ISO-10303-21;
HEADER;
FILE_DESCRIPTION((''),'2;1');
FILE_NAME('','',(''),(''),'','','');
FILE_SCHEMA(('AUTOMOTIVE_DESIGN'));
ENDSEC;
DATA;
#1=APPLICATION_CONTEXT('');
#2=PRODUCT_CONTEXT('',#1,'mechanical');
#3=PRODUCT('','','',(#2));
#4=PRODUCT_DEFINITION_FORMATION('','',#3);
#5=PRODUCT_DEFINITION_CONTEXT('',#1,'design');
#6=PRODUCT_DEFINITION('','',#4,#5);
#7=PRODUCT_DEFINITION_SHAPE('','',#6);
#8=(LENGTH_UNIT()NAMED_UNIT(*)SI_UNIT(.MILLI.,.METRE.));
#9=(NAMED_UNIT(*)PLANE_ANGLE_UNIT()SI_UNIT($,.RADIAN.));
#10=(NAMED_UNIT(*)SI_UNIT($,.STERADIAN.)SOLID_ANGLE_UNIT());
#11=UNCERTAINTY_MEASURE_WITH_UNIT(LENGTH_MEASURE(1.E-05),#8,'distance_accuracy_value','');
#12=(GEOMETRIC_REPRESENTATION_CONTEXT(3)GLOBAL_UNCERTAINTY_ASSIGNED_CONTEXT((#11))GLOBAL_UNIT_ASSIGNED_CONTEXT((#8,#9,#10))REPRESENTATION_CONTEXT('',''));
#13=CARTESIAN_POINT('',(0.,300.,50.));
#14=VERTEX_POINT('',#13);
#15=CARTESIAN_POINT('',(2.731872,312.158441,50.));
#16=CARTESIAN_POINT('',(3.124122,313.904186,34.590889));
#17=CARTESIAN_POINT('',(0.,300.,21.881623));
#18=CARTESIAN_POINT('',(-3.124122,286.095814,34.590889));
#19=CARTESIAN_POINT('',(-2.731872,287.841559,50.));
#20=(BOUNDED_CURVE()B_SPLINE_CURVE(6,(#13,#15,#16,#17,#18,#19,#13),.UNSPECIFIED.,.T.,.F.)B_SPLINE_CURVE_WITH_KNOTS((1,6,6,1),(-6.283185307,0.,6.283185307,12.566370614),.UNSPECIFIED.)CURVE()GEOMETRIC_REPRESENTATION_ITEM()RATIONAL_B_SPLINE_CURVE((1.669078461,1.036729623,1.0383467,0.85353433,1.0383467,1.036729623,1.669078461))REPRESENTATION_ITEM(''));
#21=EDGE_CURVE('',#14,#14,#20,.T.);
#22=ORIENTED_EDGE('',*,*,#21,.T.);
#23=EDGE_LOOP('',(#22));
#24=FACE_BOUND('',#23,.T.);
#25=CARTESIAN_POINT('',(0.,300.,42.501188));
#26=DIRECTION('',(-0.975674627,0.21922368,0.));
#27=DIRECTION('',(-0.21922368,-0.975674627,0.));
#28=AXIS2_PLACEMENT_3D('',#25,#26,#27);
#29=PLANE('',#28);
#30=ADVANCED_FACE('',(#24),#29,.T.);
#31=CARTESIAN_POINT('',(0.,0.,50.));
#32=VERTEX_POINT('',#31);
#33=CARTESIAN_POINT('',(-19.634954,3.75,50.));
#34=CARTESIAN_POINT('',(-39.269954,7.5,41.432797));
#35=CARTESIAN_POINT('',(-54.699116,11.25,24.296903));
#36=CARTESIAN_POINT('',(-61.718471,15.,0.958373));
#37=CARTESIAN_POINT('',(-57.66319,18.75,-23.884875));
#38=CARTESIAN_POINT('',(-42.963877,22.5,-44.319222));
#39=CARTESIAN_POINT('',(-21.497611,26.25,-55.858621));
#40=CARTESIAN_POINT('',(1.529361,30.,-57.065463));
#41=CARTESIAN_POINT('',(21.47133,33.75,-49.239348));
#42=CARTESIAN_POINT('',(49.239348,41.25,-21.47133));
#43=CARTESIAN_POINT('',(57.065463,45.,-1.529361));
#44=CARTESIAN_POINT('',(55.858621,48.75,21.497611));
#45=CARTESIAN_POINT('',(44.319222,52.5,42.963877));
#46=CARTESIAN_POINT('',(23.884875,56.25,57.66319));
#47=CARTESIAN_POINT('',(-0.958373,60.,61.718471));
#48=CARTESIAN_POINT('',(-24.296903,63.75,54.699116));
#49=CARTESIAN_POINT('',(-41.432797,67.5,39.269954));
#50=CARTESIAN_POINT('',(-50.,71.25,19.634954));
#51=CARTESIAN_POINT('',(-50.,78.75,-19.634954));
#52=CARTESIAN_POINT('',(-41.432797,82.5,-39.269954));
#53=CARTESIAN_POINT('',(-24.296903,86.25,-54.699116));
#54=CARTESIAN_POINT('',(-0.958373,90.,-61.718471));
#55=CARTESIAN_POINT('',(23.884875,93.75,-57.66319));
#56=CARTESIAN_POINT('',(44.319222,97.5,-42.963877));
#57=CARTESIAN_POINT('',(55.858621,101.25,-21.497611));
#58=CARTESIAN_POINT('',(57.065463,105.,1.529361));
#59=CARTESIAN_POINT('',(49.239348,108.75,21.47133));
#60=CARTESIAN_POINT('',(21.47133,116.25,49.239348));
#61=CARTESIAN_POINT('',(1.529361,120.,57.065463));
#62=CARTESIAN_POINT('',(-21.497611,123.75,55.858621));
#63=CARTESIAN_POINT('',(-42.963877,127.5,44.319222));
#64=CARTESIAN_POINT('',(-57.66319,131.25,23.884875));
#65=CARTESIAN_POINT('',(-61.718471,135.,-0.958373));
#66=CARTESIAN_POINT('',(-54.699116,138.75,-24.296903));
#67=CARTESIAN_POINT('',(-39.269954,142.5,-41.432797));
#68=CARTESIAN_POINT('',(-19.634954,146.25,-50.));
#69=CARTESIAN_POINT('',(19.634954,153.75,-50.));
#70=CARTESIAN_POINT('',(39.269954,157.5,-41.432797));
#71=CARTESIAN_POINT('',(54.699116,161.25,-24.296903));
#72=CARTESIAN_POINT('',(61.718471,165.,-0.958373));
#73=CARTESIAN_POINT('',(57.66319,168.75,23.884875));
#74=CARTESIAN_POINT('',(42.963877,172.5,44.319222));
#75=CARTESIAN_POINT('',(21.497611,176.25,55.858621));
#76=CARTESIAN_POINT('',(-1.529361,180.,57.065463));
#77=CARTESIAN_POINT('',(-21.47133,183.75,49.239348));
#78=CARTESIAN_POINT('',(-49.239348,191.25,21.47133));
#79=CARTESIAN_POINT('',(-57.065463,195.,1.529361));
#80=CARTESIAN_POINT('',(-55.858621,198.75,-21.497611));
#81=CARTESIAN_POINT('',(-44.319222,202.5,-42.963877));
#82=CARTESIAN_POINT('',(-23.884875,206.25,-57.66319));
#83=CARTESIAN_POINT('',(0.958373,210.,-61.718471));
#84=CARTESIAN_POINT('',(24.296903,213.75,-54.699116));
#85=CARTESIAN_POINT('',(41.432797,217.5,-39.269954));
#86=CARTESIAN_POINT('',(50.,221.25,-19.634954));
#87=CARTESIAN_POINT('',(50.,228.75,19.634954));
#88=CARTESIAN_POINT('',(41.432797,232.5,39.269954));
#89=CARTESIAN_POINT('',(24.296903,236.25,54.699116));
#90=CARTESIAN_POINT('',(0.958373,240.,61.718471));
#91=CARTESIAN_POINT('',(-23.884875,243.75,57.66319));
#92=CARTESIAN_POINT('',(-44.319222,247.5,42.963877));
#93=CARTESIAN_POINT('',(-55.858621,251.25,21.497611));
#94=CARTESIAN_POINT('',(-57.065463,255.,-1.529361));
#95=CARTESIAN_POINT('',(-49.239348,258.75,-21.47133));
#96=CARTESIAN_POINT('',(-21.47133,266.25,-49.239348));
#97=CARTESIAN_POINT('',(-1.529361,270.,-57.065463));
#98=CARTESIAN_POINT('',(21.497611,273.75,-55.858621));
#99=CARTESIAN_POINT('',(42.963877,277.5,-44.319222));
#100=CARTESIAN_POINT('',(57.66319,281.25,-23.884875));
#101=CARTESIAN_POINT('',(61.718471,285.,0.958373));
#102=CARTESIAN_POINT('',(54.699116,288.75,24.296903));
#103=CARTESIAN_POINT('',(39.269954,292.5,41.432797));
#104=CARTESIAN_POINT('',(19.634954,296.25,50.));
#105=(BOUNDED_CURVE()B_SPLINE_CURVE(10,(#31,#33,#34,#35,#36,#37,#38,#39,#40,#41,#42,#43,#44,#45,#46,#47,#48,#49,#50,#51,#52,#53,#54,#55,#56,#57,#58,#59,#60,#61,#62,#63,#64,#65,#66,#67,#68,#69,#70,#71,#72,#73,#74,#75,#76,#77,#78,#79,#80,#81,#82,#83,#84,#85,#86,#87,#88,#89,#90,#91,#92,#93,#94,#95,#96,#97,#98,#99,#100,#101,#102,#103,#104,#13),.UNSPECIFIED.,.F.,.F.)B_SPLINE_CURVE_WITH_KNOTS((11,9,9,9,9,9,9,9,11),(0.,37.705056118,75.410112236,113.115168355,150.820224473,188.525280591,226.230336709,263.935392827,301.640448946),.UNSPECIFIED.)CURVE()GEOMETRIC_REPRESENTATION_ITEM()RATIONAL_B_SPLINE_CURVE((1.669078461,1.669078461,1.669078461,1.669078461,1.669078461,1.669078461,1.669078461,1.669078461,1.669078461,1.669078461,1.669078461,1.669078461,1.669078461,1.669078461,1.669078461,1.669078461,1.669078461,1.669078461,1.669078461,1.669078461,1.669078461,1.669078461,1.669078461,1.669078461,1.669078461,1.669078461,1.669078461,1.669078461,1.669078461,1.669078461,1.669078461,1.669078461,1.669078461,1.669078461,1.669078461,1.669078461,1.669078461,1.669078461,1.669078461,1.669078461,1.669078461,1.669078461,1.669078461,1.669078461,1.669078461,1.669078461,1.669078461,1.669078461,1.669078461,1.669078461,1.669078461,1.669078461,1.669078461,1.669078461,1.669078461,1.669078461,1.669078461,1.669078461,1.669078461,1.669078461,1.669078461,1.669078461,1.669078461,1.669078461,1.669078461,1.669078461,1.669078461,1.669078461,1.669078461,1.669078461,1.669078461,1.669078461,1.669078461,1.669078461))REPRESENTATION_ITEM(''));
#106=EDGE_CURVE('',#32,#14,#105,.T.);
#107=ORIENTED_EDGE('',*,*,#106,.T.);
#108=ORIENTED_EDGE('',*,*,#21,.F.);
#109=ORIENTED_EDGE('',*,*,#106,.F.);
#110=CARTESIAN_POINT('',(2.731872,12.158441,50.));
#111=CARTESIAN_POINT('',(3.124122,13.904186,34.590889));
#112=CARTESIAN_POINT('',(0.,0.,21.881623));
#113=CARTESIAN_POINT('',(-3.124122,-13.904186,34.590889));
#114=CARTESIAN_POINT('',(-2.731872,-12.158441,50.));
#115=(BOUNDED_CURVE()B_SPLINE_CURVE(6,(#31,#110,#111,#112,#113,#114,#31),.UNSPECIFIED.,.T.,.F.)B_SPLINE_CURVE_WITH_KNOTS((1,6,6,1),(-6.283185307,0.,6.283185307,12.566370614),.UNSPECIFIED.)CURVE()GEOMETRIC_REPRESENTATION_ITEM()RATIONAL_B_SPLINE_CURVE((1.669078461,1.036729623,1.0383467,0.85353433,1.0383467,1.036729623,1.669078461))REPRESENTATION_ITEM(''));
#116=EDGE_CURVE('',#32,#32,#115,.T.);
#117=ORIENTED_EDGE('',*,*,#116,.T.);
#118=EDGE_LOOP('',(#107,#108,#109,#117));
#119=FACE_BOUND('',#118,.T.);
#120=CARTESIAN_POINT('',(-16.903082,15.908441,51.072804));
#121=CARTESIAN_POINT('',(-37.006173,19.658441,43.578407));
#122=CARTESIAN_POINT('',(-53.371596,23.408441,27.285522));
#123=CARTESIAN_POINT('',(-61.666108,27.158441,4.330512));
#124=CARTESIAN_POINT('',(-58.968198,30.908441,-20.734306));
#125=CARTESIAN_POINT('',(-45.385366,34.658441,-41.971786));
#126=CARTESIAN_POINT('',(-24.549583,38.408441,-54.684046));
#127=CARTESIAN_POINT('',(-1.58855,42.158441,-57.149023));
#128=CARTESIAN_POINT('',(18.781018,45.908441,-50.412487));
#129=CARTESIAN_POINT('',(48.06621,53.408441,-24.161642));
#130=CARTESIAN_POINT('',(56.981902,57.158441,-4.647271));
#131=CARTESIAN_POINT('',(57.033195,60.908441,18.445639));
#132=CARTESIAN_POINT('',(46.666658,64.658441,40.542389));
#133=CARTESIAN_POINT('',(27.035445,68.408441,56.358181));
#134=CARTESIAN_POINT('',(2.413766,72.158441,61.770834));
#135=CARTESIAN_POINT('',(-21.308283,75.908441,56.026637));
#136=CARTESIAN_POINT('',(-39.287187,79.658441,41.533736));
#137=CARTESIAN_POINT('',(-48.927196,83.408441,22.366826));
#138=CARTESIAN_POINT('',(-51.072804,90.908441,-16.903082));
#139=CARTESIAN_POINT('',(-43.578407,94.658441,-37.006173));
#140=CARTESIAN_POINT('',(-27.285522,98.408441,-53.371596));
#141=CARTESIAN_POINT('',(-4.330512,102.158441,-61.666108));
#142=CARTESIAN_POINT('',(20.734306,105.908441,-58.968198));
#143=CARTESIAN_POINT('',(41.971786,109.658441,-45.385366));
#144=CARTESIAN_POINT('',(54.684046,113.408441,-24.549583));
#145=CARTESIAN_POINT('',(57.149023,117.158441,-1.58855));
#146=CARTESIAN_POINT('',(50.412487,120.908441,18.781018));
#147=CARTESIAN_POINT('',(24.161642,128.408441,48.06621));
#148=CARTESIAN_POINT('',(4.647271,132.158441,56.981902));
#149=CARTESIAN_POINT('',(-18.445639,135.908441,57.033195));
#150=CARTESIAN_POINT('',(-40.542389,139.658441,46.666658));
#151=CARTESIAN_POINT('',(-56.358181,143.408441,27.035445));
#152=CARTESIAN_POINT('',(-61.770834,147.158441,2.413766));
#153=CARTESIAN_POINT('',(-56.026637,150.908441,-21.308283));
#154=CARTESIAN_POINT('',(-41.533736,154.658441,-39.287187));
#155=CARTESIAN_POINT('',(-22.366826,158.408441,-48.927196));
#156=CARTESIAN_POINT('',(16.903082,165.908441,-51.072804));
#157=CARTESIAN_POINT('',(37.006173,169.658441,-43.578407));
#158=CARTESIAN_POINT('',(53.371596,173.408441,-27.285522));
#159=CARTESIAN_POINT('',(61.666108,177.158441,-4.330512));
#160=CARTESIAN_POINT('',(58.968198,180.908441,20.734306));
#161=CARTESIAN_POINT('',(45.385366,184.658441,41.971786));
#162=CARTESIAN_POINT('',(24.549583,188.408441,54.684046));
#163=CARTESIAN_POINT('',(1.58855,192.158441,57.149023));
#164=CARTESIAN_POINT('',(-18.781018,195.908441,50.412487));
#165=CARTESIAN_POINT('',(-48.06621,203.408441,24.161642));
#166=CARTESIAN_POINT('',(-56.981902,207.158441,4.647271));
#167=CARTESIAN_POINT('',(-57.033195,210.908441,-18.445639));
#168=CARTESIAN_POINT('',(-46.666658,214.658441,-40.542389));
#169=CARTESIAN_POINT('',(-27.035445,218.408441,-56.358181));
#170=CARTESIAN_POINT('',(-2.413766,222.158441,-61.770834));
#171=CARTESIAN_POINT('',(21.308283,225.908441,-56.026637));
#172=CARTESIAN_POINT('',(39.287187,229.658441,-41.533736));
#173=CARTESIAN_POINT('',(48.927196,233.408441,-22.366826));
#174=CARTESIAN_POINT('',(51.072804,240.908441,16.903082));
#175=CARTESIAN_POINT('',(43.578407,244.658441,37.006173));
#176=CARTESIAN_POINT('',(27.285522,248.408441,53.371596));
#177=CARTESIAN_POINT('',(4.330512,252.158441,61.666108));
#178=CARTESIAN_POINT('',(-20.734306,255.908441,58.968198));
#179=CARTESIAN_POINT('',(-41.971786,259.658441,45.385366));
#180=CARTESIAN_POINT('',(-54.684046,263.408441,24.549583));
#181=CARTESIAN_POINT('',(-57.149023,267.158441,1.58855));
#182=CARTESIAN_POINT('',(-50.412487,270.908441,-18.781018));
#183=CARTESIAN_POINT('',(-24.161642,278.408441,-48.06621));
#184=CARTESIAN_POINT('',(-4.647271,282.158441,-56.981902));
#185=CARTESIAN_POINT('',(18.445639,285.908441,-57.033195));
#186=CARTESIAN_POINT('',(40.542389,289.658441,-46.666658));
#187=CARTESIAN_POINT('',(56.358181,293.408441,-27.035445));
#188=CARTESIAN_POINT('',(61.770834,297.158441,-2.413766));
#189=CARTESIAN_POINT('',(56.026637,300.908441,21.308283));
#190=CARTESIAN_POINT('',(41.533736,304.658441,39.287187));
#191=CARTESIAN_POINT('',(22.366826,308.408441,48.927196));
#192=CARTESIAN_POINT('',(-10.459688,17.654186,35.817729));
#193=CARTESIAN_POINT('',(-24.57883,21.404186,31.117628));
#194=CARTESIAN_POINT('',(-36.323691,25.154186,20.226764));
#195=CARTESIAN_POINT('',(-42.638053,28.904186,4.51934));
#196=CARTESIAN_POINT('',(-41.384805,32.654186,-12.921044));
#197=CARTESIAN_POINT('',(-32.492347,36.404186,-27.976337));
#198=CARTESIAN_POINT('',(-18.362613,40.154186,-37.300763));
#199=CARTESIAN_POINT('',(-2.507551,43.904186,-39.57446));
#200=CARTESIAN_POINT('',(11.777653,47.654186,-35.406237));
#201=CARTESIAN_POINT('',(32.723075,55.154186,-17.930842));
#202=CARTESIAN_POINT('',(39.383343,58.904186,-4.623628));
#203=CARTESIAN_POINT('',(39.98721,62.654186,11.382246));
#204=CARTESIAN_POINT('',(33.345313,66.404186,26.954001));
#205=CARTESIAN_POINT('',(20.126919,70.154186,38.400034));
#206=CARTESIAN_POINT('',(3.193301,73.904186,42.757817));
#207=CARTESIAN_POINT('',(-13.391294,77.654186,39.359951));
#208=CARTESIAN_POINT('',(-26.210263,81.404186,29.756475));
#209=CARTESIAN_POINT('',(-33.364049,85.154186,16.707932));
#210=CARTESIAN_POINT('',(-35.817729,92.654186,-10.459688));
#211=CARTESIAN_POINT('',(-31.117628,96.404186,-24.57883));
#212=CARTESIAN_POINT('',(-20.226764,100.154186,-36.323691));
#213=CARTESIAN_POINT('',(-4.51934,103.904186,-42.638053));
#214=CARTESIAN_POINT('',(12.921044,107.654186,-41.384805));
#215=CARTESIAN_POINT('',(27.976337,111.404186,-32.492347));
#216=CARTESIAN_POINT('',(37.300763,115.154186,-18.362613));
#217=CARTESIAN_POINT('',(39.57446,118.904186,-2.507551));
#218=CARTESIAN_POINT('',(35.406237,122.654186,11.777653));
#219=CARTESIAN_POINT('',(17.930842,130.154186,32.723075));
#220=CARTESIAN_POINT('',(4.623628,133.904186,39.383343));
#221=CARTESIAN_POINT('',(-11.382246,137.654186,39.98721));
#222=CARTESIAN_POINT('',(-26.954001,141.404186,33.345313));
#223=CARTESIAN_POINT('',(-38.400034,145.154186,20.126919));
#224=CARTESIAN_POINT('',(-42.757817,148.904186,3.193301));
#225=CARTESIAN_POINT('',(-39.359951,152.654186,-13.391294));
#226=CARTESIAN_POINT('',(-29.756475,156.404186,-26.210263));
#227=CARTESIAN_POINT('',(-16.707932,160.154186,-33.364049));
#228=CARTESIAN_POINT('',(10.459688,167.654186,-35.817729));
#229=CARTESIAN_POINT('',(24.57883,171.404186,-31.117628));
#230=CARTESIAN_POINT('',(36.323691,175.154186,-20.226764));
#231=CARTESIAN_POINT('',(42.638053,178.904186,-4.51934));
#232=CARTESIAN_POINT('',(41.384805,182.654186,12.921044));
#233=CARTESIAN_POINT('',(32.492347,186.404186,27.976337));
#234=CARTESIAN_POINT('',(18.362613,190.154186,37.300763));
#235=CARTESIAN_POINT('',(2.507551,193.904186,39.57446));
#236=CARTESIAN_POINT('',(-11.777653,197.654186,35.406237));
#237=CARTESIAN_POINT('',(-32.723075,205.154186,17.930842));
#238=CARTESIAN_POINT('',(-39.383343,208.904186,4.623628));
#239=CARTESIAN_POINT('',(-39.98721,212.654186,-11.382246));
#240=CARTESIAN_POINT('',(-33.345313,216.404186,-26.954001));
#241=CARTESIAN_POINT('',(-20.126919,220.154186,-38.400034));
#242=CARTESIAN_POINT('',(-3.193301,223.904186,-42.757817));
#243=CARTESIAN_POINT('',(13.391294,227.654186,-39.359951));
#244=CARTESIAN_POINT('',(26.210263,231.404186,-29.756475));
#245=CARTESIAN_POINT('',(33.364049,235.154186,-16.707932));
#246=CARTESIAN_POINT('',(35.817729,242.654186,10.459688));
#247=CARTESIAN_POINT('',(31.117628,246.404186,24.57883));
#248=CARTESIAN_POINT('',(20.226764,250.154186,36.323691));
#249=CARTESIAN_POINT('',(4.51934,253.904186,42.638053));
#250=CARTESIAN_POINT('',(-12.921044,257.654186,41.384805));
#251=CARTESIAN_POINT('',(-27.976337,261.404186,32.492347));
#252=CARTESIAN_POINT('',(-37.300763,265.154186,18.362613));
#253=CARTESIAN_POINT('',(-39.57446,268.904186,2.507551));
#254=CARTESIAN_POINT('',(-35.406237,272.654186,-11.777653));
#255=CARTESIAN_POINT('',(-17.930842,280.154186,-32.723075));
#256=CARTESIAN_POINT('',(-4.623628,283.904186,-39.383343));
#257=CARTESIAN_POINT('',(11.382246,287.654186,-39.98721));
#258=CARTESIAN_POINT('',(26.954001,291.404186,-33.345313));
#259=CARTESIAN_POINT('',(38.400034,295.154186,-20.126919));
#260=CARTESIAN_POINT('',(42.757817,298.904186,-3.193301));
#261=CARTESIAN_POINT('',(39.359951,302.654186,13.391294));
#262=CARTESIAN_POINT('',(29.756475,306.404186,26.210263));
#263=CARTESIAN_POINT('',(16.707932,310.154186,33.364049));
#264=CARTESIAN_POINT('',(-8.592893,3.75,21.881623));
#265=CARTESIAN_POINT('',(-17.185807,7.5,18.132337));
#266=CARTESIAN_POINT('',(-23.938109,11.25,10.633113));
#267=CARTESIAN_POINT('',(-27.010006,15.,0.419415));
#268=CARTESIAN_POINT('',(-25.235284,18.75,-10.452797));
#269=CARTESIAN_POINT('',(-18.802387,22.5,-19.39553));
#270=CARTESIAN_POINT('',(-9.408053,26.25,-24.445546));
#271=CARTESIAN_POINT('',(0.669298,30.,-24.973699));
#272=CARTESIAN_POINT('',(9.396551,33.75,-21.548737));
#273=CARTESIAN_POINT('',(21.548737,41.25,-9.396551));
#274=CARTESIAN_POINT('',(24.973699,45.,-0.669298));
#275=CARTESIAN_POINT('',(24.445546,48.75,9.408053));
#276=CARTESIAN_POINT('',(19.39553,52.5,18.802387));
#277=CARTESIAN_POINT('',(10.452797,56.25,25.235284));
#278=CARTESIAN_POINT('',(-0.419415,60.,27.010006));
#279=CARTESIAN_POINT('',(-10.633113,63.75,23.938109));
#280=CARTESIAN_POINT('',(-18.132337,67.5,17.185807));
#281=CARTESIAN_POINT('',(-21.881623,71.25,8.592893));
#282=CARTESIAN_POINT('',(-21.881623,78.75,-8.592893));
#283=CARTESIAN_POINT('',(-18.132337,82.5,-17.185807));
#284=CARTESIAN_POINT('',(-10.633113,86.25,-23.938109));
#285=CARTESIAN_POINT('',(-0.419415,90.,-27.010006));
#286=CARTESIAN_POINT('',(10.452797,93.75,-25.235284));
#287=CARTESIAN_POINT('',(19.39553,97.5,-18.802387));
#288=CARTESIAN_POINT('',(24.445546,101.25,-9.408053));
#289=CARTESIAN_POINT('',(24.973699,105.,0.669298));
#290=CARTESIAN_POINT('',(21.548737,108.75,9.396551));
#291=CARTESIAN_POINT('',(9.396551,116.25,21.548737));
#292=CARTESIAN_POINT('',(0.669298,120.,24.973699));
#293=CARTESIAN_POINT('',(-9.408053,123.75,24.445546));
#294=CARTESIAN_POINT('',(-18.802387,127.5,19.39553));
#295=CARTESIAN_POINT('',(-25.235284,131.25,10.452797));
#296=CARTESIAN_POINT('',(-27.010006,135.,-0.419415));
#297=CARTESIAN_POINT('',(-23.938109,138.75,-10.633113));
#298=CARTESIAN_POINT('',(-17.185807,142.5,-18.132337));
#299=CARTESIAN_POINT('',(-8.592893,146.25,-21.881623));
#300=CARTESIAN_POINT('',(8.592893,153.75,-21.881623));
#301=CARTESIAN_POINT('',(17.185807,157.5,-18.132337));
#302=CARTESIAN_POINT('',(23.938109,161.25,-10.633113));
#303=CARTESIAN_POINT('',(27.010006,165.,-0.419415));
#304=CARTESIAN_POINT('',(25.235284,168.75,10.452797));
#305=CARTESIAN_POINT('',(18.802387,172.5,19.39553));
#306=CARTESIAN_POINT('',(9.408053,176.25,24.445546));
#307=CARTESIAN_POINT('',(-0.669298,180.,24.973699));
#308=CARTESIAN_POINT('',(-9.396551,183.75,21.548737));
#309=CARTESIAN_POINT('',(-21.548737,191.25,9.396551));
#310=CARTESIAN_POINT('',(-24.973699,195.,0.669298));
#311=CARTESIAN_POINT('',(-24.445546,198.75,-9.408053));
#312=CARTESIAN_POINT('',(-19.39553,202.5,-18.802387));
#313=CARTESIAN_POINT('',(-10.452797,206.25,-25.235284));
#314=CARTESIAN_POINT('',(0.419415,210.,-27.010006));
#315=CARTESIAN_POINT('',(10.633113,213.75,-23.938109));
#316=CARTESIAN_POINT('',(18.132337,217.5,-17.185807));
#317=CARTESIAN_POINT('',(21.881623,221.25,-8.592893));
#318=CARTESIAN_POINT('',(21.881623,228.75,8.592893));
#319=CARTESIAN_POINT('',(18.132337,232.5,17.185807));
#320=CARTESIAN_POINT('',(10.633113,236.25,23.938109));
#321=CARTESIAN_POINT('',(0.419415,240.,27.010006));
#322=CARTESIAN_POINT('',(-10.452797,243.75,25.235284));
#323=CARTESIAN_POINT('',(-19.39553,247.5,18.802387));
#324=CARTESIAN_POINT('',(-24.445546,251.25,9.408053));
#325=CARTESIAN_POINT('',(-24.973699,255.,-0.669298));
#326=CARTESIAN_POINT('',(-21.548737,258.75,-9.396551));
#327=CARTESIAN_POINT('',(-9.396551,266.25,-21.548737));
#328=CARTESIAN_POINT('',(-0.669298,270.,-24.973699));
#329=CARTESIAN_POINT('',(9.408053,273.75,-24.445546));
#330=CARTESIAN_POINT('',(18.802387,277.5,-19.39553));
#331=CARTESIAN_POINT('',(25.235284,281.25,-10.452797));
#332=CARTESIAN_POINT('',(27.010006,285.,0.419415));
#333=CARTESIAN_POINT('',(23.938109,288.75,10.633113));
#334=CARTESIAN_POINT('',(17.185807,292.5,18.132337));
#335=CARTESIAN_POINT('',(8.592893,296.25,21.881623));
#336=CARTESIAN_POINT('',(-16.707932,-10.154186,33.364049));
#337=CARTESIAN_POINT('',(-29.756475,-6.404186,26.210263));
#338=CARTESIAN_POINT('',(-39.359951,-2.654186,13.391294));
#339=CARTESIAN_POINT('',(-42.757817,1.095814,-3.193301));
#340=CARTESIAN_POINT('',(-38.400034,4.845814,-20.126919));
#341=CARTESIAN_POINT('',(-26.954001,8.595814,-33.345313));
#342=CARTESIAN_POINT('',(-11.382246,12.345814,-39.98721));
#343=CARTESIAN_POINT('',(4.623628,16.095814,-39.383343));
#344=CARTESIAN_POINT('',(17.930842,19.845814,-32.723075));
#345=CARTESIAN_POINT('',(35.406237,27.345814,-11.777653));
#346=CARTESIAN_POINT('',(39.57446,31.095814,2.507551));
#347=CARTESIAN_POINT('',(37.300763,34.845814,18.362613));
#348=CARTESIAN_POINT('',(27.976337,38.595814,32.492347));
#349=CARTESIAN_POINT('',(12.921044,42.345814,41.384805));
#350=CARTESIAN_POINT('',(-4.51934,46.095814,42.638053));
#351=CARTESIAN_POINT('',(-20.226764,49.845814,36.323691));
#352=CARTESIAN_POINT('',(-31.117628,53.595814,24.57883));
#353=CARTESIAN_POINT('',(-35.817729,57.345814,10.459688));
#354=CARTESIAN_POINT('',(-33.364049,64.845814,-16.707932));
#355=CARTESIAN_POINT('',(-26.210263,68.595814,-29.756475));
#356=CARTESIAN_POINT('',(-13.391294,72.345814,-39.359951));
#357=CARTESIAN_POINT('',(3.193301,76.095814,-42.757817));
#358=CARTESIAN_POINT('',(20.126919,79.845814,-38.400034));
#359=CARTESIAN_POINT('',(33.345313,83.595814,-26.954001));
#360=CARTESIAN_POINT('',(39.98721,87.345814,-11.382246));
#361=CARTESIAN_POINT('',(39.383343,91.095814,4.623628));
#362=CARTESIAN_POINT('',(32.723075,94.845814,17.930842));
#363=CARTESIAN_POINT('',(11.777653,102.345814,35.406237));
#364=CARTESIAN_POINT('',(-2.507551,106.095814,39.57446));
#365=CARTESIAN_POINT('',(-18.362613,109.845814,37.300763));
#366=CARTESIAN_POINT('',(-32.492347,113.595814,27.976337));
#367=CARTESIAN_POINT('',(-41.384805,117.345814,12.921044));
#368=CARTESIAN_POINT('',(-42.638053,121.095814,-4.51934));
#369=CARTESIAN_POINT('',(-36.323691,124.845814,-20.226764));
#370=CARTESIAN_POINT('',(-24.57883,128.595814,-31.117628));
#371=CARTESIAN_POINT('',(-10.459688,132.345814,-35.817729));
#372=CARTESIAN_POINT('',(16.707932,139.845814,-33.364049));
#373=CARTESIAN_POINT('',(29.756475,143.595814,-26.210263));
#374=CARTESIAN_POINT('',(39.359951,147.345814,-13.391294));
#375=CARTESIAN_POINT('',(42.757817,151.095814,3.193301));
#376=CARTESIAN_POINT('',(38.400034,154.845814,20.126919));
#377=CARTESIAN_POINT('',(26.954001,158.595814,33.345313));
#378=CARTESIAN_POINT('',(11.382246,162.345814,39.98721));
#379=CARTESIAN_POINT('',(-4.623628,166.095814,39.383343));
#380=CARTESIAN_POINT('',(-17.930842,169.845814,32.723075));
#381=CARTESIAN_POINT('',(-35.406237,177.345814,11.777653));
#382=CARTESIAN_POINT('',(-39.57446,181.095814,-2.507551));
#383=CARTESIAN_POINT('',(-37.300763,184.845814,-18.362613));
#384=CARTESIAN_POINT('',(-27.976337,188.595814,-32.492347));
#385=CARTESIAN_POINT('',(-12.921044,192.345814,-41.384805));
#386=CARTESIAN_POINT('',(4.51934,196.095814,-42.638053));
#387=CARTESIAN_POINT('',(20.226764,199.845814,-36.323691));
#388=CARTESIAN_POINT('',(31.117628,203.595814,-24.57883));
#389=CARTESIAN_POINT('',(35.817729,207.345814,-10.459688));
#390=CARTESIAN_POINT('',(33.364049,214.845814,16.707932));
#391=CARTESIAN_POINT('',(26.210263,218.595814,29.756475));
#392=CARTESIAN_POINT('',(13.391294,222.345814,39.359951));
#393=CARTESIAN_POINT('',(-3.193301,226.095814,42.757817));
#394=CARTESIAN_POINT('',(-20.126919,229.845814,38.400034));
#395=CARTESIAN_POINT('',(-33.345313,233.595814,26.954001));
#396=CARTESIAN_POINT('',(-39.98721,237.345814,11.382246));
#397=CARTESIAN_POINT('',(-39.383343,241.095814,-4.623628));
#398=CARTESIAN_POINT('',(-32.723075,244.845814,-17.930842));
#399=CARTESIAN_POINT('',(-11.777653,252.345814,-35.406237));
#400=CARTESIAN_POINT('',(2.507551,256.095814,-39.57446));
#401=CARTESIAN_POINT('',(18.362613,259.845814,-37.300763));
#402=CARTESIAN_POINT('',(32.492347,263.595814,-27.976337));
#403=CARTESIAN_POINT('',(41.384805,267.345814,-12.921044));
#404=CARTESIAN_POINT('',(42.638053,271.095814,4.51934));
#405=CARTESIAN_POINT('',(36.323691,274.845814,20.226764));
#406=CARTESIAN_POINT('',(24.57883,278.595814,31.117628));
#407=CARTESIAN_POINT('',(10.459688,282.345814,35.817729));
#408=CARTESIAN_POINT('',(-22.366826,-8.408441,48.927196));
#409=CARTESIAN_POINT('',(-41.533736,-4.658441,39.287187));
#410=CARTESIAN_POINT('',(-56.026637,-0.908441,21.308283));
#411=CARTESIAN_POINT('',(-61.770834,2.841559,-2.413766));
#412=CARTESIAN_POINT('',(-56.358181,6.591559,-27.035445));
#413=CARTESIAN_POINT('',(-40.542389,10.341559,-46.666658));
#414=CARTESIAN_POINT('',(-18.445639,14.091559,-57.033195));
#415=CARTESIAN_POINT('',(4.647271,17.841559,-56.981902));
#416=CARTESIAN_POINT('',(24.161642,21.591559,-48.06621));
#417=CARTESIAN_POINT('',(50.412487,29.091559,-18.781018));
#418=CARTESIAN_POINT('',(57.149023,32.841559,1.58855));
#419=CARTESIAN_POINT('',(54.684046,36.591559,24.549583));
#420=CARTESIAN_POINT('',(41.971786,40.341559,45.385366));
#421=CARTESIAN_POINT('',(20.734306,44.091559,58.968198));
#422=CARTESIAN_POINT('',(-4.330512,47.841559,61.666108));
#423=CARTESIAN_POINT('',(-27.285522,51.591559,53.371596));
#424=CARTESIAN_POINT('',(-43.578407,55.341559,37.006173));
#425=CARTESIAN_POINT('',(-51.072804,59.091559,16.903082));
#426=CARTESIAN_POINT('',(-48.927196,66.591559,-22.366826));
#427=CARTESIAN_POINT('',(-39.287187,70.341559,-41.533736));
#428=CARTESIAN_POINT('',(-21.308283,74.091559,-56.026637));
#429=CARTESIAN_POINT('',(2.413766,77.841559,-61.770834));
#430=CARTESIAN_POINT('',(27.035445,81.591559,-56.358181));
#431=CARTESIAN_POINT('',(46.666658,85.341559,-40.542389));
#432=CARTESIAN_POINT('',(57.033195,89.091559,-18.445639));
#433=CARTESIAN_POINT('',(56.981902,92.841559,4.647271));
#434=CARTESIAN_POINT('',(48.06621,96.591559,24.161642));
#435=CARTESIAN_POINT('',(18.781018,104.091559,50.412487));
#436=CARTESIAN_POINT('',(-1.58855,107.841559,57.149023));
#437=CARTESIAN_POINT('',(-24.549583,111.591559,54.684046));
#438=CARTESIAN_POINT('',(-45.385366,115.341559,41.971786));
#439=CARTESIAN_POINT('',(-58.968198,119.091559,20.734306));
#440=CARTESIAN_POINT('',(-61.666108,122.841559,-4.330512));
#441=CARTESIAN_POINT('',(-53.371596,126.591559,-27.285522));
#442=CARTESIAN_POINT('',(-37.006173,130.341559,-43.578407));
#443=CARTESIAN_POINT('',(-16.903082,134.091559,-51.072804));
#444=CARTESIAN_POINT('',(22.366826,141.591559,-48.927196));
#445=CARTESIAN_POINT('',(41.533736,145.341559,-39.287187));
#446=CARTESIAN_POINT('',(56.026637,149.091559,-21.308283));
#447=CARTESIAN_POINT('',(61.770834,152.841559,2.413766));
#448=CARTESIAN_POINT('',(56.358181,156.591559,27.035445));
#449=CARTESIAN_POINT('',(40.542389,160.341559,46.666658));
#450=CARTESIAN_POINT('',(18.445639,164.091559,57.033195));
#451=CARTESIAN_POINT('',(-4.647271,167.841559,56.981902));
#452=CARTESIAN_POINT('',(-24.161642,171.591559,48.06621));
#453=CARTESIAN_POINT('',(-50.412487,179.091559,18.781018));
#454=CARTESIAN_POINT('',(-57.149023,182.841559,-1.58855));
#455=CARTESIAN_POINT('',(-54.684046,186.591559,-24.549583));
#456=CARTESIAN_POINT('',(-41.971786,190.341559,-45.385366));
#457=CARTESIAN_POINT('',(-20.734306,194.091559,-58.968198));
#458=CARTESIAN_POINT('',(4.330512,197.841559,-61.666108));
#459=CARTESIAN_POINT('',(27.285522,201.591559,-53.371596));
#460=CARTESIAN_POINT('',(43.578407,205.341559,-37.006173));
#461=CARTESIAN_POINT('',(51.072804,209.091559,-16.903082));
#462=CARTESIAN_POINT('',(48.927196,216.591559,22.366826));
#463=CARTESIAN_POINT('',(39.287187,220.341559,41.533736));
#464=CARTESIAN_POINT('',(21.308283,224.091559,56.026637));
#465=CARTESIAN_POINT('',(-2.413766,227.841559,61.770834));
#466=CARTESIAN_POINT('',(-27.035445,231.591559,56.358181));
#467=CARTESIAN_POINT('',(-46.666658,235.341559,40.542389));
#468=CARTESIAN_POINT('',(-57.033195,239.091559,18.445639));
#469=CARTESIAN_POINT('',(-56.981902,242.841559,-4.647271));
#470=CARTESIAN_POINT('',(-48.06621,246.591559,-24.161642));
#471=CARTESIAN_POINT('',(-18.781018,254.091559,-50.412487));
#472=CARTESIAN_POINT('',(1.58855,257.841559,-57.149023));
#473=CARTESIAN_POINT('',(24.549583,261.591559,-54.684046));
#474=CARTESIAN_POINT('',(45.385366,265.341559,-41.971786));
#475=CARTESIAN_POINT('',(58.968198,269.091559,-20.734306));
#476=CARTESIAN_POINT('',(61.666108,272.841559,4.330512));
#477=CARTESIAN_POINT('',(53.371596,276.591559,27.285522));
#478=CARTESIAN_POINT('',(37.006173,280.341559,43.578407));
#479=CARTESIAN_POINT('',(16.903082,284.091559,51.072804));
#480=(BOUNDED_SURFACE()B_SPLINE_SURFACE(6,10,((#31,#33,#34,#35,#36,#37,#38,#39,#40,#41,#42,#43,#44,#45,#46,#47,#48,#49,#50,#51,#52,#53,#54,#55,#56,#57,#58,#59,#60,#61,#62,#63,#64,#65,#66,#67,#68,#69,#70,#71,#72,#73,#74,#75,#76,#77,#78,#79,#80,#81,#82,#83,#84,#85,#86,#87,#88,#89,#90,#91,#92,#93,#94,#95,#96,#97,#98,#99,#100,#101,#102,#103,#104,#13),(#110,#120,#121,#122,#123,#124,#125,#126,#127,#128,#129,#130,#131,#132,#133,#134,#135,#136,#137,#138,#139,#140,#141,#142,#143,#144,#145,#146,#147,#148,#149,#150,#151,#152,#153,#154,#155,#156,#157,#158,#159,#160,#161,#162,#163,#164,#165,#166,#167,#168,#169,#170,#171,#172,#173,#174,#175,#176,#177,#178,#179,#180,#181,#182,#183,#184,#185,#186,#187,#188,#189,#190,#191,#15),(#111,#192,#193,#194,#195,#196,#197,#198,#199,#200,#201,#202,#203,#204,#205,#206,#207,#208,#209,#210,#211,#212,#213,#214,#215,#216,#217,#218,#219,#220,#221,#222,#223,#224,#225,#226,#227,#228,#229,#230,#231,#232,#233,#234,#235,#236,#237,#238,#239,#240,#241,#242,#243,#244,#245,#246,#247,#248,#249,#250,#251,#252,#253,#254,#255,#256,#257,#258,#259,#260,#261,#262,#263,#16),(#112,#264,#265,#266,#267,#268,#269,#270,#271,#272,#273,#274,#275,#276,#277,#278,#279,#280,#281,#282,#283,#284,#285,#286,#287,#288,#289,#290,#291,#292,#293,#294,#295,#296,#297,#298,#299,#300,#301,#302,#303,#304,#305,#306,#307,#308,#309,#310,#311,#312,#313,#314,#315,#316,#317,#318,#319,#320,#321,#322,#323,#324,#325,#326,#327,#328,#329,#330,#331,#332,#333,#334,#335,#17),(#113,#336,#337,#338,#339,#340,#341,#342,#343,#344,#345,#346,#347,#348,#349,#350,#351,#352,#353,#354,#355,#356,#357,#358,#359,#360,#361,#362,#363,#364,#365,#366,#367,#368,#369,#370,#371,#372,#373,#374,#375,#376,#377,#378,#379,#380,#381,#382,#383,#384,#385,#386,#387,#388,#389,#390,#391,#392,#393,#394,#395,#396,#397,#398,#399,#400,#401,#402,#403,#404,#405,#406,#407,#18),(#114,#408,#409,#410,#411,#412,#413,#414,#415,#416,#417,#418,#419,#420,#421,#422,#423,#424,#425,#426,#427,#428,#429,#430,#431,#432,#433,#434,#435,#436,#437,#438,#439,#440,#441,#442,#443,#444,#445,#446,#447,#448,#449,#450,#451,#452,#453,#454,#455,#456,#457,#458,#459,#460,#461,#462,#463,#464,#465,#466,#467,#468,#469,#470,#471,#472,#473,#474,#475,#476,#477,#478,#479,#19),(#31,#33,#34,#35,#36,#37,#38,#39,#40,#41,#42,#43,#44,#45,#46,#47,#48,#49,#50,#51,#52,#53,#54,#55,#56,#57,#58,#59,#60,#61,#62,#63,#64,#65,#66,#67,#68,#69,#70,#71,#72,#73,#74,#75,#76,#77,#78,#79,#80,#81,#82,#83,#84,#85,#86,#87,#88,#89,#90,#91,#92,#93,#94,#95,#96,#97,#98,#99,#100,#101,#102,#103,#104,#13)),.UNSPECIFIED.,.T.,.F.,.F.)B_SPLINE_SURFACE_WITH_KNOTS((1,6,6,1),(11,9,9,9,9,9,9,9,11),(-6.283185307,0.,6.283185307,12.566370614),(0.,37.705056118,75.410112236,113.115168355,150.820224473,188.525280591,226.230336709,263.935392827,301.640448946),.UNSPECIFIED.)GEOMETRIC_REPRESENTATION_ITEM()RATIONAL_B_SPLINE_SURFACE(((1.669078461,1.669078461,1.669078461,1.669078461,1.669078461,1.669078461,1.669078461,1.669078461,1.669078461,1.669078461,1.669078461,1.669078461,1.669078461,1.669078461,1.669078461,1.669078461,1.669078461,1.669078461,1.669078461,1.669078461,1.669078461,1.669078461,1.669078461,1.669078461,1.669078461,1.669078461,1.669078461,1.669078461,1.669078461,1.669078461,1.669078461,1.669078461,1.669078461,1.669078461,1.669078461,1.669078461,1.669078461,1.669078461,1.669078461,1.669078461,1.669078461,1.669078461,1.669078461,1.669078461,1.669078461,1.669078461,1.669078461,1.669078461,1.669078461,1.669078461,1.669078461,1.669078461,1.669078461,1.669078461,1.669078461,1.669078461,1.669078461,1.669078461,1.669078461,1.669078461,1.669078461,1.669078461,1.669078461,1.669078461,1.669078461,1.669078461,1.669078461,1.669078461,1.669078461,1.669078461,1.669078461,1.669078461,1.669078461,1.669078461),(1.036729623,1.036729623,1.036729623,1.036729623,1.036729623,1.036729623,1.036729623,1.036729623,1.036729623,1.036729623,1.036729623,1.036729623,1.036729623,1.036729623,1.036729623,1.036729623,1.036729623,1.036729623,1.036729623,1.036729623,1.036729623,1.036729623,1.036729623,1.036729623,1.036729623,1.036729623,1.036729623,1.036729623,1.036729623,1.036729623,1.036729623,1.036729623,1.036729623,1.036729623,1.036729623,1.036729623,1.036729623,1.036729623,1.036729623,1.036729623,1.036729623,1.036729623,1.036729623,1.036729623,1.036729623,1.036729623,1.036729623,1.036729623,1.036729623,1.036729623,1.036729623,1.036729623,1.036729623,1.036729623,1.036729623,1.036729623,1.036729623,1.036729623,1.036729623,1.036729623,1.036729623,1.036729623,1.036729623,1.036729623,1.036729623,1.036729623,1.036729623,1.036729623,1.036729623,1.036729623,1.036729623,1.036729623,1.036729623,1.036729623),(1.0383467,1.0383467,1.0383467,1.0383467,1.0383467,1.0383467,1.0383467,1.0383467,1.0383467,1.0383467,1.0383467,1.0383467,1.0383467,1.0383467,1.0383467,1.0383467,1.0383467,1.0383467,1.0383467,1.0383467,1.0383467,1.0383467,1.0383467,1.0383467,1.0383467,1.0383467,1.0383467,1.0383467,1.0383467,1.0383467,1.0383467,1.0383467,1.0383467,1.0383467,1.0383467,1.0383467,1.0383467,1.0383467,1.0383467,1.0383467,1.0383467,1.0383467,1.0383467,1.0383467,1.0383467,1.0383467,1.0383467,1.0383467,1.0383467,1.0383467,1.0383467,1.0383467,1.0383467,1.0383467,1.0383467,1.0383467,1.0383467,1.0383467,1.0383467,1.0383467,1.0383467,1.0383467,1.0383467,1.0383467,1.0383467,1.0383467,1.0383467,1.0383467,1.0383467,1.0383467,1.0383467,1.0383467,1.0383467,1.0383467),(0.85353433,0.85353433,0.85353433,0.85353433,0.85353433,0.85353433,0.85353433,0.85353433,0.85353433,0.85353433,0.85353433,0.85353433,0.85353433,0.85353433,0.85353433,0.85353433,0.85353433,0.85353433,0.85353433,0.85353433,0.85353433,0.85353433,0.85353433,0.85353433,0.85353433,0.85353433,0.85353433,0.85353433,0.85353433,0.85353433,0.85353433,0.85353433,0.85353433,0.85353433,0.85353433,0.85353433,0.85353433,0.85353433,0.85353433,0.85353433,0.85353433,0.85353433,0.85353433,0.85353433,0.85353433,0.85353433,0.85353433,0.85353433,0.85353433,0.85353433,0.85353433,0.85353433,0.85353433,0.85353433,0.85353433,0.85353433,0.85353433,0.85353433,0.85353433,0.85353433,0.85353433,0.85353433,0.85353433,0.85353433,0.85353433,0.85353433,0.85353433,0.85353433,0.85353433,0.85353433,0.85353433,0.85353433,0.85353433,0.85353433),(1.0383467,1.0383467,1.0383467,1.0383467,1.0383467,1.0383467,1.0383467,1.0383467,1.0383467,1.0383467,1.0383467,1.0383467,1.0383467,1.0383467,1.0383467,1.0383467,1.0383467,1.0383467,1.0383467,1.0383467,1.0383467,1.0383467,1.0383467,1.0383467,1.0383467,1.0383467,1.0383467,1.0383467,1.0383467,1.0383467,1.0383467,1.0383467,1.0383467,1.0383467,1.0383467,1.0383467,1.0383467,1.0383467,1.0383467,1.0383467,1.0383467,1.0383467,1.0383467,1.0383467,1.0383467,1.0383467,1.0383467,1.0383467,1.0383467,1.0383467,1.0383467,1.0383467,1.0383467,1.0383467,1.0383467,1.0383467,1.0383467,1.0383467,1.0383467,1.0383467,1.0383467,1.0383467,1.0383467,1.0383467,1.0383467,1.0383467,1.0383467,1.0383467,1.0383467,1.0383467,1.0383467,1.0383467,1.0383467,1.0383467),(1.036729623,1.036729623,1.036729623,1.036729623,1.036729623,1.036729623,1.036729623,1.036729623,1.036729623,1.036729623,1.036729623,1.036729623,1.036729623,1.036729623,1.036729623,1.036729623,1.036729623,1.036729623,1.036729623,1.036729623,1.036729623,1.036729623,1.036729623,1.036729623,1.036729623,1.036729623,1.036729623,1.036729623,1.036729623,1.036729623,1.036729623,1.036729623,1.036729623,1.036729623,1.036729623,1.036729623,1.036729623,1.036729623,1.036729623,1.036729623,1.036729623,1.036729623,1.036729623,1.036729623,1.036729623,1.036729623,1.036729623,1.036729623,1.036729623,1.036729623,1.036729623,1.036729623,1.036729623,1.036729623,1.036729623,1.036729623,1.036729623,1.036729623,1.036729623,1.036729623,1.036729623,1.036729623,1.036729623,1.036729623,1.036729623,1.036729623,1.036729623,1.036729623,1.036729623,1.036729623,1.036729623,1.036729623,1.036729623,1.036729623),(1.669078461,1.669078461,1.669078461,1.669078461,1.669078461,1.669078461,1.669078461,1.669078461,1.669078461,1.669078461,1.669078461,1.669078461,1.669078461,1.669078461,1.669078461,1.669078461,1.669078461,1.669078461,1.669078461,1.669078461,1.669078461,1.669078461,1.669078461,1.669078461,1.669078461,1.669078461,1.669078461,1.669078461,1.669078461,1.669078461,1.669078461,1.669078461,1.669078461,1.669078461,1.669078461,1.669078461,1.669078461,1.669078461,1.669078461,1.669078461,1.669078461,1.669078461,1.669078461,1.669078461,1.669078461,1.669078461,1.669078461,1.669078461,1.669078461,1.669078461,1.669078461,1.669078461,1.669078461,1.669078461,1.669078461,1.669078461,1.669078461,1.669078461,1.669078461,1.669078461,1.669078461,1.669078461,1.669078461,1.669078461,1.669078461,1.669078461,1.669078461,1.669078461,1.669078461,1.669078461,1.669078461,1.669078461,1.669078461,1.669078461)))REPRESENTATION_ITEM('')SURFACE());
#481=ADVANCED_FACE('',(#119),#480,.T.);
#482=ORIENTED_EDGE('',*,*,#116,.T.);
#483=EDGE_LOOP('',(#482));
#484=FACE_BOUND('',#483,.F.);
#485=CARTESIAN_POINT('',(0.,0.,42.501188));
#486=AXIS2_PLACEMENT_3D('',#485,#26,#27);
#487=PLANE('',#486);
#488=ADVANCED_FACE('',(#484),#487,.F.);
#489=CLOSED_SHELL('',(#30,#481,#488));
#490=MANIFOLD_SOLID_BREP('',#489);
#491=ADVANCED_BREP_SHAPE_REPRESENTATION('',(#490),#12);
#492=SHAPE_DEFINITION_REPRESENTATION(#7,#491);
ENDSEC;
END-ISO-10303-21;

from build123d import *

# Parameters (mm, degrees)
T_HNOUT_PO_K_IVCE1_PITCH  = 60
T_HNOUT_PO_K_IVCE1_HEIGHT = 300
T_HNOUT_PO_K_IVCE1_RADIUS = 42.5
SKICA3_R                  = 7.5


with BuildPart() as part:
    # Táhnout po křivce1: sweep along a helix
    with BuildLine() as t_hnout_po_k_ivce1_path:
        Helix(T_HNOUT_PO_K_IVCE1_PITCH, T_HNOUT_PO_K_IVCE1_HEIGHT, T_HNOUT_PO_K_IVCE1_RADIUS, center=(0, 0, 0), direction=(0, 1, 0), lefthand=True)
    # Skica3 → Táhnout po křivce1 (sweep)
    with BuildSketch(Plane(origin=(0, 0, 42.5), x_dir=(0, 0, 1), z_dir=(-0.975674627, 0.21922368, 0))):
        Circle(SKICA3_R)
    sweep(path=t_hnout_po_k_ivce1_path.line, is_frenet=True)


solid = part.part
